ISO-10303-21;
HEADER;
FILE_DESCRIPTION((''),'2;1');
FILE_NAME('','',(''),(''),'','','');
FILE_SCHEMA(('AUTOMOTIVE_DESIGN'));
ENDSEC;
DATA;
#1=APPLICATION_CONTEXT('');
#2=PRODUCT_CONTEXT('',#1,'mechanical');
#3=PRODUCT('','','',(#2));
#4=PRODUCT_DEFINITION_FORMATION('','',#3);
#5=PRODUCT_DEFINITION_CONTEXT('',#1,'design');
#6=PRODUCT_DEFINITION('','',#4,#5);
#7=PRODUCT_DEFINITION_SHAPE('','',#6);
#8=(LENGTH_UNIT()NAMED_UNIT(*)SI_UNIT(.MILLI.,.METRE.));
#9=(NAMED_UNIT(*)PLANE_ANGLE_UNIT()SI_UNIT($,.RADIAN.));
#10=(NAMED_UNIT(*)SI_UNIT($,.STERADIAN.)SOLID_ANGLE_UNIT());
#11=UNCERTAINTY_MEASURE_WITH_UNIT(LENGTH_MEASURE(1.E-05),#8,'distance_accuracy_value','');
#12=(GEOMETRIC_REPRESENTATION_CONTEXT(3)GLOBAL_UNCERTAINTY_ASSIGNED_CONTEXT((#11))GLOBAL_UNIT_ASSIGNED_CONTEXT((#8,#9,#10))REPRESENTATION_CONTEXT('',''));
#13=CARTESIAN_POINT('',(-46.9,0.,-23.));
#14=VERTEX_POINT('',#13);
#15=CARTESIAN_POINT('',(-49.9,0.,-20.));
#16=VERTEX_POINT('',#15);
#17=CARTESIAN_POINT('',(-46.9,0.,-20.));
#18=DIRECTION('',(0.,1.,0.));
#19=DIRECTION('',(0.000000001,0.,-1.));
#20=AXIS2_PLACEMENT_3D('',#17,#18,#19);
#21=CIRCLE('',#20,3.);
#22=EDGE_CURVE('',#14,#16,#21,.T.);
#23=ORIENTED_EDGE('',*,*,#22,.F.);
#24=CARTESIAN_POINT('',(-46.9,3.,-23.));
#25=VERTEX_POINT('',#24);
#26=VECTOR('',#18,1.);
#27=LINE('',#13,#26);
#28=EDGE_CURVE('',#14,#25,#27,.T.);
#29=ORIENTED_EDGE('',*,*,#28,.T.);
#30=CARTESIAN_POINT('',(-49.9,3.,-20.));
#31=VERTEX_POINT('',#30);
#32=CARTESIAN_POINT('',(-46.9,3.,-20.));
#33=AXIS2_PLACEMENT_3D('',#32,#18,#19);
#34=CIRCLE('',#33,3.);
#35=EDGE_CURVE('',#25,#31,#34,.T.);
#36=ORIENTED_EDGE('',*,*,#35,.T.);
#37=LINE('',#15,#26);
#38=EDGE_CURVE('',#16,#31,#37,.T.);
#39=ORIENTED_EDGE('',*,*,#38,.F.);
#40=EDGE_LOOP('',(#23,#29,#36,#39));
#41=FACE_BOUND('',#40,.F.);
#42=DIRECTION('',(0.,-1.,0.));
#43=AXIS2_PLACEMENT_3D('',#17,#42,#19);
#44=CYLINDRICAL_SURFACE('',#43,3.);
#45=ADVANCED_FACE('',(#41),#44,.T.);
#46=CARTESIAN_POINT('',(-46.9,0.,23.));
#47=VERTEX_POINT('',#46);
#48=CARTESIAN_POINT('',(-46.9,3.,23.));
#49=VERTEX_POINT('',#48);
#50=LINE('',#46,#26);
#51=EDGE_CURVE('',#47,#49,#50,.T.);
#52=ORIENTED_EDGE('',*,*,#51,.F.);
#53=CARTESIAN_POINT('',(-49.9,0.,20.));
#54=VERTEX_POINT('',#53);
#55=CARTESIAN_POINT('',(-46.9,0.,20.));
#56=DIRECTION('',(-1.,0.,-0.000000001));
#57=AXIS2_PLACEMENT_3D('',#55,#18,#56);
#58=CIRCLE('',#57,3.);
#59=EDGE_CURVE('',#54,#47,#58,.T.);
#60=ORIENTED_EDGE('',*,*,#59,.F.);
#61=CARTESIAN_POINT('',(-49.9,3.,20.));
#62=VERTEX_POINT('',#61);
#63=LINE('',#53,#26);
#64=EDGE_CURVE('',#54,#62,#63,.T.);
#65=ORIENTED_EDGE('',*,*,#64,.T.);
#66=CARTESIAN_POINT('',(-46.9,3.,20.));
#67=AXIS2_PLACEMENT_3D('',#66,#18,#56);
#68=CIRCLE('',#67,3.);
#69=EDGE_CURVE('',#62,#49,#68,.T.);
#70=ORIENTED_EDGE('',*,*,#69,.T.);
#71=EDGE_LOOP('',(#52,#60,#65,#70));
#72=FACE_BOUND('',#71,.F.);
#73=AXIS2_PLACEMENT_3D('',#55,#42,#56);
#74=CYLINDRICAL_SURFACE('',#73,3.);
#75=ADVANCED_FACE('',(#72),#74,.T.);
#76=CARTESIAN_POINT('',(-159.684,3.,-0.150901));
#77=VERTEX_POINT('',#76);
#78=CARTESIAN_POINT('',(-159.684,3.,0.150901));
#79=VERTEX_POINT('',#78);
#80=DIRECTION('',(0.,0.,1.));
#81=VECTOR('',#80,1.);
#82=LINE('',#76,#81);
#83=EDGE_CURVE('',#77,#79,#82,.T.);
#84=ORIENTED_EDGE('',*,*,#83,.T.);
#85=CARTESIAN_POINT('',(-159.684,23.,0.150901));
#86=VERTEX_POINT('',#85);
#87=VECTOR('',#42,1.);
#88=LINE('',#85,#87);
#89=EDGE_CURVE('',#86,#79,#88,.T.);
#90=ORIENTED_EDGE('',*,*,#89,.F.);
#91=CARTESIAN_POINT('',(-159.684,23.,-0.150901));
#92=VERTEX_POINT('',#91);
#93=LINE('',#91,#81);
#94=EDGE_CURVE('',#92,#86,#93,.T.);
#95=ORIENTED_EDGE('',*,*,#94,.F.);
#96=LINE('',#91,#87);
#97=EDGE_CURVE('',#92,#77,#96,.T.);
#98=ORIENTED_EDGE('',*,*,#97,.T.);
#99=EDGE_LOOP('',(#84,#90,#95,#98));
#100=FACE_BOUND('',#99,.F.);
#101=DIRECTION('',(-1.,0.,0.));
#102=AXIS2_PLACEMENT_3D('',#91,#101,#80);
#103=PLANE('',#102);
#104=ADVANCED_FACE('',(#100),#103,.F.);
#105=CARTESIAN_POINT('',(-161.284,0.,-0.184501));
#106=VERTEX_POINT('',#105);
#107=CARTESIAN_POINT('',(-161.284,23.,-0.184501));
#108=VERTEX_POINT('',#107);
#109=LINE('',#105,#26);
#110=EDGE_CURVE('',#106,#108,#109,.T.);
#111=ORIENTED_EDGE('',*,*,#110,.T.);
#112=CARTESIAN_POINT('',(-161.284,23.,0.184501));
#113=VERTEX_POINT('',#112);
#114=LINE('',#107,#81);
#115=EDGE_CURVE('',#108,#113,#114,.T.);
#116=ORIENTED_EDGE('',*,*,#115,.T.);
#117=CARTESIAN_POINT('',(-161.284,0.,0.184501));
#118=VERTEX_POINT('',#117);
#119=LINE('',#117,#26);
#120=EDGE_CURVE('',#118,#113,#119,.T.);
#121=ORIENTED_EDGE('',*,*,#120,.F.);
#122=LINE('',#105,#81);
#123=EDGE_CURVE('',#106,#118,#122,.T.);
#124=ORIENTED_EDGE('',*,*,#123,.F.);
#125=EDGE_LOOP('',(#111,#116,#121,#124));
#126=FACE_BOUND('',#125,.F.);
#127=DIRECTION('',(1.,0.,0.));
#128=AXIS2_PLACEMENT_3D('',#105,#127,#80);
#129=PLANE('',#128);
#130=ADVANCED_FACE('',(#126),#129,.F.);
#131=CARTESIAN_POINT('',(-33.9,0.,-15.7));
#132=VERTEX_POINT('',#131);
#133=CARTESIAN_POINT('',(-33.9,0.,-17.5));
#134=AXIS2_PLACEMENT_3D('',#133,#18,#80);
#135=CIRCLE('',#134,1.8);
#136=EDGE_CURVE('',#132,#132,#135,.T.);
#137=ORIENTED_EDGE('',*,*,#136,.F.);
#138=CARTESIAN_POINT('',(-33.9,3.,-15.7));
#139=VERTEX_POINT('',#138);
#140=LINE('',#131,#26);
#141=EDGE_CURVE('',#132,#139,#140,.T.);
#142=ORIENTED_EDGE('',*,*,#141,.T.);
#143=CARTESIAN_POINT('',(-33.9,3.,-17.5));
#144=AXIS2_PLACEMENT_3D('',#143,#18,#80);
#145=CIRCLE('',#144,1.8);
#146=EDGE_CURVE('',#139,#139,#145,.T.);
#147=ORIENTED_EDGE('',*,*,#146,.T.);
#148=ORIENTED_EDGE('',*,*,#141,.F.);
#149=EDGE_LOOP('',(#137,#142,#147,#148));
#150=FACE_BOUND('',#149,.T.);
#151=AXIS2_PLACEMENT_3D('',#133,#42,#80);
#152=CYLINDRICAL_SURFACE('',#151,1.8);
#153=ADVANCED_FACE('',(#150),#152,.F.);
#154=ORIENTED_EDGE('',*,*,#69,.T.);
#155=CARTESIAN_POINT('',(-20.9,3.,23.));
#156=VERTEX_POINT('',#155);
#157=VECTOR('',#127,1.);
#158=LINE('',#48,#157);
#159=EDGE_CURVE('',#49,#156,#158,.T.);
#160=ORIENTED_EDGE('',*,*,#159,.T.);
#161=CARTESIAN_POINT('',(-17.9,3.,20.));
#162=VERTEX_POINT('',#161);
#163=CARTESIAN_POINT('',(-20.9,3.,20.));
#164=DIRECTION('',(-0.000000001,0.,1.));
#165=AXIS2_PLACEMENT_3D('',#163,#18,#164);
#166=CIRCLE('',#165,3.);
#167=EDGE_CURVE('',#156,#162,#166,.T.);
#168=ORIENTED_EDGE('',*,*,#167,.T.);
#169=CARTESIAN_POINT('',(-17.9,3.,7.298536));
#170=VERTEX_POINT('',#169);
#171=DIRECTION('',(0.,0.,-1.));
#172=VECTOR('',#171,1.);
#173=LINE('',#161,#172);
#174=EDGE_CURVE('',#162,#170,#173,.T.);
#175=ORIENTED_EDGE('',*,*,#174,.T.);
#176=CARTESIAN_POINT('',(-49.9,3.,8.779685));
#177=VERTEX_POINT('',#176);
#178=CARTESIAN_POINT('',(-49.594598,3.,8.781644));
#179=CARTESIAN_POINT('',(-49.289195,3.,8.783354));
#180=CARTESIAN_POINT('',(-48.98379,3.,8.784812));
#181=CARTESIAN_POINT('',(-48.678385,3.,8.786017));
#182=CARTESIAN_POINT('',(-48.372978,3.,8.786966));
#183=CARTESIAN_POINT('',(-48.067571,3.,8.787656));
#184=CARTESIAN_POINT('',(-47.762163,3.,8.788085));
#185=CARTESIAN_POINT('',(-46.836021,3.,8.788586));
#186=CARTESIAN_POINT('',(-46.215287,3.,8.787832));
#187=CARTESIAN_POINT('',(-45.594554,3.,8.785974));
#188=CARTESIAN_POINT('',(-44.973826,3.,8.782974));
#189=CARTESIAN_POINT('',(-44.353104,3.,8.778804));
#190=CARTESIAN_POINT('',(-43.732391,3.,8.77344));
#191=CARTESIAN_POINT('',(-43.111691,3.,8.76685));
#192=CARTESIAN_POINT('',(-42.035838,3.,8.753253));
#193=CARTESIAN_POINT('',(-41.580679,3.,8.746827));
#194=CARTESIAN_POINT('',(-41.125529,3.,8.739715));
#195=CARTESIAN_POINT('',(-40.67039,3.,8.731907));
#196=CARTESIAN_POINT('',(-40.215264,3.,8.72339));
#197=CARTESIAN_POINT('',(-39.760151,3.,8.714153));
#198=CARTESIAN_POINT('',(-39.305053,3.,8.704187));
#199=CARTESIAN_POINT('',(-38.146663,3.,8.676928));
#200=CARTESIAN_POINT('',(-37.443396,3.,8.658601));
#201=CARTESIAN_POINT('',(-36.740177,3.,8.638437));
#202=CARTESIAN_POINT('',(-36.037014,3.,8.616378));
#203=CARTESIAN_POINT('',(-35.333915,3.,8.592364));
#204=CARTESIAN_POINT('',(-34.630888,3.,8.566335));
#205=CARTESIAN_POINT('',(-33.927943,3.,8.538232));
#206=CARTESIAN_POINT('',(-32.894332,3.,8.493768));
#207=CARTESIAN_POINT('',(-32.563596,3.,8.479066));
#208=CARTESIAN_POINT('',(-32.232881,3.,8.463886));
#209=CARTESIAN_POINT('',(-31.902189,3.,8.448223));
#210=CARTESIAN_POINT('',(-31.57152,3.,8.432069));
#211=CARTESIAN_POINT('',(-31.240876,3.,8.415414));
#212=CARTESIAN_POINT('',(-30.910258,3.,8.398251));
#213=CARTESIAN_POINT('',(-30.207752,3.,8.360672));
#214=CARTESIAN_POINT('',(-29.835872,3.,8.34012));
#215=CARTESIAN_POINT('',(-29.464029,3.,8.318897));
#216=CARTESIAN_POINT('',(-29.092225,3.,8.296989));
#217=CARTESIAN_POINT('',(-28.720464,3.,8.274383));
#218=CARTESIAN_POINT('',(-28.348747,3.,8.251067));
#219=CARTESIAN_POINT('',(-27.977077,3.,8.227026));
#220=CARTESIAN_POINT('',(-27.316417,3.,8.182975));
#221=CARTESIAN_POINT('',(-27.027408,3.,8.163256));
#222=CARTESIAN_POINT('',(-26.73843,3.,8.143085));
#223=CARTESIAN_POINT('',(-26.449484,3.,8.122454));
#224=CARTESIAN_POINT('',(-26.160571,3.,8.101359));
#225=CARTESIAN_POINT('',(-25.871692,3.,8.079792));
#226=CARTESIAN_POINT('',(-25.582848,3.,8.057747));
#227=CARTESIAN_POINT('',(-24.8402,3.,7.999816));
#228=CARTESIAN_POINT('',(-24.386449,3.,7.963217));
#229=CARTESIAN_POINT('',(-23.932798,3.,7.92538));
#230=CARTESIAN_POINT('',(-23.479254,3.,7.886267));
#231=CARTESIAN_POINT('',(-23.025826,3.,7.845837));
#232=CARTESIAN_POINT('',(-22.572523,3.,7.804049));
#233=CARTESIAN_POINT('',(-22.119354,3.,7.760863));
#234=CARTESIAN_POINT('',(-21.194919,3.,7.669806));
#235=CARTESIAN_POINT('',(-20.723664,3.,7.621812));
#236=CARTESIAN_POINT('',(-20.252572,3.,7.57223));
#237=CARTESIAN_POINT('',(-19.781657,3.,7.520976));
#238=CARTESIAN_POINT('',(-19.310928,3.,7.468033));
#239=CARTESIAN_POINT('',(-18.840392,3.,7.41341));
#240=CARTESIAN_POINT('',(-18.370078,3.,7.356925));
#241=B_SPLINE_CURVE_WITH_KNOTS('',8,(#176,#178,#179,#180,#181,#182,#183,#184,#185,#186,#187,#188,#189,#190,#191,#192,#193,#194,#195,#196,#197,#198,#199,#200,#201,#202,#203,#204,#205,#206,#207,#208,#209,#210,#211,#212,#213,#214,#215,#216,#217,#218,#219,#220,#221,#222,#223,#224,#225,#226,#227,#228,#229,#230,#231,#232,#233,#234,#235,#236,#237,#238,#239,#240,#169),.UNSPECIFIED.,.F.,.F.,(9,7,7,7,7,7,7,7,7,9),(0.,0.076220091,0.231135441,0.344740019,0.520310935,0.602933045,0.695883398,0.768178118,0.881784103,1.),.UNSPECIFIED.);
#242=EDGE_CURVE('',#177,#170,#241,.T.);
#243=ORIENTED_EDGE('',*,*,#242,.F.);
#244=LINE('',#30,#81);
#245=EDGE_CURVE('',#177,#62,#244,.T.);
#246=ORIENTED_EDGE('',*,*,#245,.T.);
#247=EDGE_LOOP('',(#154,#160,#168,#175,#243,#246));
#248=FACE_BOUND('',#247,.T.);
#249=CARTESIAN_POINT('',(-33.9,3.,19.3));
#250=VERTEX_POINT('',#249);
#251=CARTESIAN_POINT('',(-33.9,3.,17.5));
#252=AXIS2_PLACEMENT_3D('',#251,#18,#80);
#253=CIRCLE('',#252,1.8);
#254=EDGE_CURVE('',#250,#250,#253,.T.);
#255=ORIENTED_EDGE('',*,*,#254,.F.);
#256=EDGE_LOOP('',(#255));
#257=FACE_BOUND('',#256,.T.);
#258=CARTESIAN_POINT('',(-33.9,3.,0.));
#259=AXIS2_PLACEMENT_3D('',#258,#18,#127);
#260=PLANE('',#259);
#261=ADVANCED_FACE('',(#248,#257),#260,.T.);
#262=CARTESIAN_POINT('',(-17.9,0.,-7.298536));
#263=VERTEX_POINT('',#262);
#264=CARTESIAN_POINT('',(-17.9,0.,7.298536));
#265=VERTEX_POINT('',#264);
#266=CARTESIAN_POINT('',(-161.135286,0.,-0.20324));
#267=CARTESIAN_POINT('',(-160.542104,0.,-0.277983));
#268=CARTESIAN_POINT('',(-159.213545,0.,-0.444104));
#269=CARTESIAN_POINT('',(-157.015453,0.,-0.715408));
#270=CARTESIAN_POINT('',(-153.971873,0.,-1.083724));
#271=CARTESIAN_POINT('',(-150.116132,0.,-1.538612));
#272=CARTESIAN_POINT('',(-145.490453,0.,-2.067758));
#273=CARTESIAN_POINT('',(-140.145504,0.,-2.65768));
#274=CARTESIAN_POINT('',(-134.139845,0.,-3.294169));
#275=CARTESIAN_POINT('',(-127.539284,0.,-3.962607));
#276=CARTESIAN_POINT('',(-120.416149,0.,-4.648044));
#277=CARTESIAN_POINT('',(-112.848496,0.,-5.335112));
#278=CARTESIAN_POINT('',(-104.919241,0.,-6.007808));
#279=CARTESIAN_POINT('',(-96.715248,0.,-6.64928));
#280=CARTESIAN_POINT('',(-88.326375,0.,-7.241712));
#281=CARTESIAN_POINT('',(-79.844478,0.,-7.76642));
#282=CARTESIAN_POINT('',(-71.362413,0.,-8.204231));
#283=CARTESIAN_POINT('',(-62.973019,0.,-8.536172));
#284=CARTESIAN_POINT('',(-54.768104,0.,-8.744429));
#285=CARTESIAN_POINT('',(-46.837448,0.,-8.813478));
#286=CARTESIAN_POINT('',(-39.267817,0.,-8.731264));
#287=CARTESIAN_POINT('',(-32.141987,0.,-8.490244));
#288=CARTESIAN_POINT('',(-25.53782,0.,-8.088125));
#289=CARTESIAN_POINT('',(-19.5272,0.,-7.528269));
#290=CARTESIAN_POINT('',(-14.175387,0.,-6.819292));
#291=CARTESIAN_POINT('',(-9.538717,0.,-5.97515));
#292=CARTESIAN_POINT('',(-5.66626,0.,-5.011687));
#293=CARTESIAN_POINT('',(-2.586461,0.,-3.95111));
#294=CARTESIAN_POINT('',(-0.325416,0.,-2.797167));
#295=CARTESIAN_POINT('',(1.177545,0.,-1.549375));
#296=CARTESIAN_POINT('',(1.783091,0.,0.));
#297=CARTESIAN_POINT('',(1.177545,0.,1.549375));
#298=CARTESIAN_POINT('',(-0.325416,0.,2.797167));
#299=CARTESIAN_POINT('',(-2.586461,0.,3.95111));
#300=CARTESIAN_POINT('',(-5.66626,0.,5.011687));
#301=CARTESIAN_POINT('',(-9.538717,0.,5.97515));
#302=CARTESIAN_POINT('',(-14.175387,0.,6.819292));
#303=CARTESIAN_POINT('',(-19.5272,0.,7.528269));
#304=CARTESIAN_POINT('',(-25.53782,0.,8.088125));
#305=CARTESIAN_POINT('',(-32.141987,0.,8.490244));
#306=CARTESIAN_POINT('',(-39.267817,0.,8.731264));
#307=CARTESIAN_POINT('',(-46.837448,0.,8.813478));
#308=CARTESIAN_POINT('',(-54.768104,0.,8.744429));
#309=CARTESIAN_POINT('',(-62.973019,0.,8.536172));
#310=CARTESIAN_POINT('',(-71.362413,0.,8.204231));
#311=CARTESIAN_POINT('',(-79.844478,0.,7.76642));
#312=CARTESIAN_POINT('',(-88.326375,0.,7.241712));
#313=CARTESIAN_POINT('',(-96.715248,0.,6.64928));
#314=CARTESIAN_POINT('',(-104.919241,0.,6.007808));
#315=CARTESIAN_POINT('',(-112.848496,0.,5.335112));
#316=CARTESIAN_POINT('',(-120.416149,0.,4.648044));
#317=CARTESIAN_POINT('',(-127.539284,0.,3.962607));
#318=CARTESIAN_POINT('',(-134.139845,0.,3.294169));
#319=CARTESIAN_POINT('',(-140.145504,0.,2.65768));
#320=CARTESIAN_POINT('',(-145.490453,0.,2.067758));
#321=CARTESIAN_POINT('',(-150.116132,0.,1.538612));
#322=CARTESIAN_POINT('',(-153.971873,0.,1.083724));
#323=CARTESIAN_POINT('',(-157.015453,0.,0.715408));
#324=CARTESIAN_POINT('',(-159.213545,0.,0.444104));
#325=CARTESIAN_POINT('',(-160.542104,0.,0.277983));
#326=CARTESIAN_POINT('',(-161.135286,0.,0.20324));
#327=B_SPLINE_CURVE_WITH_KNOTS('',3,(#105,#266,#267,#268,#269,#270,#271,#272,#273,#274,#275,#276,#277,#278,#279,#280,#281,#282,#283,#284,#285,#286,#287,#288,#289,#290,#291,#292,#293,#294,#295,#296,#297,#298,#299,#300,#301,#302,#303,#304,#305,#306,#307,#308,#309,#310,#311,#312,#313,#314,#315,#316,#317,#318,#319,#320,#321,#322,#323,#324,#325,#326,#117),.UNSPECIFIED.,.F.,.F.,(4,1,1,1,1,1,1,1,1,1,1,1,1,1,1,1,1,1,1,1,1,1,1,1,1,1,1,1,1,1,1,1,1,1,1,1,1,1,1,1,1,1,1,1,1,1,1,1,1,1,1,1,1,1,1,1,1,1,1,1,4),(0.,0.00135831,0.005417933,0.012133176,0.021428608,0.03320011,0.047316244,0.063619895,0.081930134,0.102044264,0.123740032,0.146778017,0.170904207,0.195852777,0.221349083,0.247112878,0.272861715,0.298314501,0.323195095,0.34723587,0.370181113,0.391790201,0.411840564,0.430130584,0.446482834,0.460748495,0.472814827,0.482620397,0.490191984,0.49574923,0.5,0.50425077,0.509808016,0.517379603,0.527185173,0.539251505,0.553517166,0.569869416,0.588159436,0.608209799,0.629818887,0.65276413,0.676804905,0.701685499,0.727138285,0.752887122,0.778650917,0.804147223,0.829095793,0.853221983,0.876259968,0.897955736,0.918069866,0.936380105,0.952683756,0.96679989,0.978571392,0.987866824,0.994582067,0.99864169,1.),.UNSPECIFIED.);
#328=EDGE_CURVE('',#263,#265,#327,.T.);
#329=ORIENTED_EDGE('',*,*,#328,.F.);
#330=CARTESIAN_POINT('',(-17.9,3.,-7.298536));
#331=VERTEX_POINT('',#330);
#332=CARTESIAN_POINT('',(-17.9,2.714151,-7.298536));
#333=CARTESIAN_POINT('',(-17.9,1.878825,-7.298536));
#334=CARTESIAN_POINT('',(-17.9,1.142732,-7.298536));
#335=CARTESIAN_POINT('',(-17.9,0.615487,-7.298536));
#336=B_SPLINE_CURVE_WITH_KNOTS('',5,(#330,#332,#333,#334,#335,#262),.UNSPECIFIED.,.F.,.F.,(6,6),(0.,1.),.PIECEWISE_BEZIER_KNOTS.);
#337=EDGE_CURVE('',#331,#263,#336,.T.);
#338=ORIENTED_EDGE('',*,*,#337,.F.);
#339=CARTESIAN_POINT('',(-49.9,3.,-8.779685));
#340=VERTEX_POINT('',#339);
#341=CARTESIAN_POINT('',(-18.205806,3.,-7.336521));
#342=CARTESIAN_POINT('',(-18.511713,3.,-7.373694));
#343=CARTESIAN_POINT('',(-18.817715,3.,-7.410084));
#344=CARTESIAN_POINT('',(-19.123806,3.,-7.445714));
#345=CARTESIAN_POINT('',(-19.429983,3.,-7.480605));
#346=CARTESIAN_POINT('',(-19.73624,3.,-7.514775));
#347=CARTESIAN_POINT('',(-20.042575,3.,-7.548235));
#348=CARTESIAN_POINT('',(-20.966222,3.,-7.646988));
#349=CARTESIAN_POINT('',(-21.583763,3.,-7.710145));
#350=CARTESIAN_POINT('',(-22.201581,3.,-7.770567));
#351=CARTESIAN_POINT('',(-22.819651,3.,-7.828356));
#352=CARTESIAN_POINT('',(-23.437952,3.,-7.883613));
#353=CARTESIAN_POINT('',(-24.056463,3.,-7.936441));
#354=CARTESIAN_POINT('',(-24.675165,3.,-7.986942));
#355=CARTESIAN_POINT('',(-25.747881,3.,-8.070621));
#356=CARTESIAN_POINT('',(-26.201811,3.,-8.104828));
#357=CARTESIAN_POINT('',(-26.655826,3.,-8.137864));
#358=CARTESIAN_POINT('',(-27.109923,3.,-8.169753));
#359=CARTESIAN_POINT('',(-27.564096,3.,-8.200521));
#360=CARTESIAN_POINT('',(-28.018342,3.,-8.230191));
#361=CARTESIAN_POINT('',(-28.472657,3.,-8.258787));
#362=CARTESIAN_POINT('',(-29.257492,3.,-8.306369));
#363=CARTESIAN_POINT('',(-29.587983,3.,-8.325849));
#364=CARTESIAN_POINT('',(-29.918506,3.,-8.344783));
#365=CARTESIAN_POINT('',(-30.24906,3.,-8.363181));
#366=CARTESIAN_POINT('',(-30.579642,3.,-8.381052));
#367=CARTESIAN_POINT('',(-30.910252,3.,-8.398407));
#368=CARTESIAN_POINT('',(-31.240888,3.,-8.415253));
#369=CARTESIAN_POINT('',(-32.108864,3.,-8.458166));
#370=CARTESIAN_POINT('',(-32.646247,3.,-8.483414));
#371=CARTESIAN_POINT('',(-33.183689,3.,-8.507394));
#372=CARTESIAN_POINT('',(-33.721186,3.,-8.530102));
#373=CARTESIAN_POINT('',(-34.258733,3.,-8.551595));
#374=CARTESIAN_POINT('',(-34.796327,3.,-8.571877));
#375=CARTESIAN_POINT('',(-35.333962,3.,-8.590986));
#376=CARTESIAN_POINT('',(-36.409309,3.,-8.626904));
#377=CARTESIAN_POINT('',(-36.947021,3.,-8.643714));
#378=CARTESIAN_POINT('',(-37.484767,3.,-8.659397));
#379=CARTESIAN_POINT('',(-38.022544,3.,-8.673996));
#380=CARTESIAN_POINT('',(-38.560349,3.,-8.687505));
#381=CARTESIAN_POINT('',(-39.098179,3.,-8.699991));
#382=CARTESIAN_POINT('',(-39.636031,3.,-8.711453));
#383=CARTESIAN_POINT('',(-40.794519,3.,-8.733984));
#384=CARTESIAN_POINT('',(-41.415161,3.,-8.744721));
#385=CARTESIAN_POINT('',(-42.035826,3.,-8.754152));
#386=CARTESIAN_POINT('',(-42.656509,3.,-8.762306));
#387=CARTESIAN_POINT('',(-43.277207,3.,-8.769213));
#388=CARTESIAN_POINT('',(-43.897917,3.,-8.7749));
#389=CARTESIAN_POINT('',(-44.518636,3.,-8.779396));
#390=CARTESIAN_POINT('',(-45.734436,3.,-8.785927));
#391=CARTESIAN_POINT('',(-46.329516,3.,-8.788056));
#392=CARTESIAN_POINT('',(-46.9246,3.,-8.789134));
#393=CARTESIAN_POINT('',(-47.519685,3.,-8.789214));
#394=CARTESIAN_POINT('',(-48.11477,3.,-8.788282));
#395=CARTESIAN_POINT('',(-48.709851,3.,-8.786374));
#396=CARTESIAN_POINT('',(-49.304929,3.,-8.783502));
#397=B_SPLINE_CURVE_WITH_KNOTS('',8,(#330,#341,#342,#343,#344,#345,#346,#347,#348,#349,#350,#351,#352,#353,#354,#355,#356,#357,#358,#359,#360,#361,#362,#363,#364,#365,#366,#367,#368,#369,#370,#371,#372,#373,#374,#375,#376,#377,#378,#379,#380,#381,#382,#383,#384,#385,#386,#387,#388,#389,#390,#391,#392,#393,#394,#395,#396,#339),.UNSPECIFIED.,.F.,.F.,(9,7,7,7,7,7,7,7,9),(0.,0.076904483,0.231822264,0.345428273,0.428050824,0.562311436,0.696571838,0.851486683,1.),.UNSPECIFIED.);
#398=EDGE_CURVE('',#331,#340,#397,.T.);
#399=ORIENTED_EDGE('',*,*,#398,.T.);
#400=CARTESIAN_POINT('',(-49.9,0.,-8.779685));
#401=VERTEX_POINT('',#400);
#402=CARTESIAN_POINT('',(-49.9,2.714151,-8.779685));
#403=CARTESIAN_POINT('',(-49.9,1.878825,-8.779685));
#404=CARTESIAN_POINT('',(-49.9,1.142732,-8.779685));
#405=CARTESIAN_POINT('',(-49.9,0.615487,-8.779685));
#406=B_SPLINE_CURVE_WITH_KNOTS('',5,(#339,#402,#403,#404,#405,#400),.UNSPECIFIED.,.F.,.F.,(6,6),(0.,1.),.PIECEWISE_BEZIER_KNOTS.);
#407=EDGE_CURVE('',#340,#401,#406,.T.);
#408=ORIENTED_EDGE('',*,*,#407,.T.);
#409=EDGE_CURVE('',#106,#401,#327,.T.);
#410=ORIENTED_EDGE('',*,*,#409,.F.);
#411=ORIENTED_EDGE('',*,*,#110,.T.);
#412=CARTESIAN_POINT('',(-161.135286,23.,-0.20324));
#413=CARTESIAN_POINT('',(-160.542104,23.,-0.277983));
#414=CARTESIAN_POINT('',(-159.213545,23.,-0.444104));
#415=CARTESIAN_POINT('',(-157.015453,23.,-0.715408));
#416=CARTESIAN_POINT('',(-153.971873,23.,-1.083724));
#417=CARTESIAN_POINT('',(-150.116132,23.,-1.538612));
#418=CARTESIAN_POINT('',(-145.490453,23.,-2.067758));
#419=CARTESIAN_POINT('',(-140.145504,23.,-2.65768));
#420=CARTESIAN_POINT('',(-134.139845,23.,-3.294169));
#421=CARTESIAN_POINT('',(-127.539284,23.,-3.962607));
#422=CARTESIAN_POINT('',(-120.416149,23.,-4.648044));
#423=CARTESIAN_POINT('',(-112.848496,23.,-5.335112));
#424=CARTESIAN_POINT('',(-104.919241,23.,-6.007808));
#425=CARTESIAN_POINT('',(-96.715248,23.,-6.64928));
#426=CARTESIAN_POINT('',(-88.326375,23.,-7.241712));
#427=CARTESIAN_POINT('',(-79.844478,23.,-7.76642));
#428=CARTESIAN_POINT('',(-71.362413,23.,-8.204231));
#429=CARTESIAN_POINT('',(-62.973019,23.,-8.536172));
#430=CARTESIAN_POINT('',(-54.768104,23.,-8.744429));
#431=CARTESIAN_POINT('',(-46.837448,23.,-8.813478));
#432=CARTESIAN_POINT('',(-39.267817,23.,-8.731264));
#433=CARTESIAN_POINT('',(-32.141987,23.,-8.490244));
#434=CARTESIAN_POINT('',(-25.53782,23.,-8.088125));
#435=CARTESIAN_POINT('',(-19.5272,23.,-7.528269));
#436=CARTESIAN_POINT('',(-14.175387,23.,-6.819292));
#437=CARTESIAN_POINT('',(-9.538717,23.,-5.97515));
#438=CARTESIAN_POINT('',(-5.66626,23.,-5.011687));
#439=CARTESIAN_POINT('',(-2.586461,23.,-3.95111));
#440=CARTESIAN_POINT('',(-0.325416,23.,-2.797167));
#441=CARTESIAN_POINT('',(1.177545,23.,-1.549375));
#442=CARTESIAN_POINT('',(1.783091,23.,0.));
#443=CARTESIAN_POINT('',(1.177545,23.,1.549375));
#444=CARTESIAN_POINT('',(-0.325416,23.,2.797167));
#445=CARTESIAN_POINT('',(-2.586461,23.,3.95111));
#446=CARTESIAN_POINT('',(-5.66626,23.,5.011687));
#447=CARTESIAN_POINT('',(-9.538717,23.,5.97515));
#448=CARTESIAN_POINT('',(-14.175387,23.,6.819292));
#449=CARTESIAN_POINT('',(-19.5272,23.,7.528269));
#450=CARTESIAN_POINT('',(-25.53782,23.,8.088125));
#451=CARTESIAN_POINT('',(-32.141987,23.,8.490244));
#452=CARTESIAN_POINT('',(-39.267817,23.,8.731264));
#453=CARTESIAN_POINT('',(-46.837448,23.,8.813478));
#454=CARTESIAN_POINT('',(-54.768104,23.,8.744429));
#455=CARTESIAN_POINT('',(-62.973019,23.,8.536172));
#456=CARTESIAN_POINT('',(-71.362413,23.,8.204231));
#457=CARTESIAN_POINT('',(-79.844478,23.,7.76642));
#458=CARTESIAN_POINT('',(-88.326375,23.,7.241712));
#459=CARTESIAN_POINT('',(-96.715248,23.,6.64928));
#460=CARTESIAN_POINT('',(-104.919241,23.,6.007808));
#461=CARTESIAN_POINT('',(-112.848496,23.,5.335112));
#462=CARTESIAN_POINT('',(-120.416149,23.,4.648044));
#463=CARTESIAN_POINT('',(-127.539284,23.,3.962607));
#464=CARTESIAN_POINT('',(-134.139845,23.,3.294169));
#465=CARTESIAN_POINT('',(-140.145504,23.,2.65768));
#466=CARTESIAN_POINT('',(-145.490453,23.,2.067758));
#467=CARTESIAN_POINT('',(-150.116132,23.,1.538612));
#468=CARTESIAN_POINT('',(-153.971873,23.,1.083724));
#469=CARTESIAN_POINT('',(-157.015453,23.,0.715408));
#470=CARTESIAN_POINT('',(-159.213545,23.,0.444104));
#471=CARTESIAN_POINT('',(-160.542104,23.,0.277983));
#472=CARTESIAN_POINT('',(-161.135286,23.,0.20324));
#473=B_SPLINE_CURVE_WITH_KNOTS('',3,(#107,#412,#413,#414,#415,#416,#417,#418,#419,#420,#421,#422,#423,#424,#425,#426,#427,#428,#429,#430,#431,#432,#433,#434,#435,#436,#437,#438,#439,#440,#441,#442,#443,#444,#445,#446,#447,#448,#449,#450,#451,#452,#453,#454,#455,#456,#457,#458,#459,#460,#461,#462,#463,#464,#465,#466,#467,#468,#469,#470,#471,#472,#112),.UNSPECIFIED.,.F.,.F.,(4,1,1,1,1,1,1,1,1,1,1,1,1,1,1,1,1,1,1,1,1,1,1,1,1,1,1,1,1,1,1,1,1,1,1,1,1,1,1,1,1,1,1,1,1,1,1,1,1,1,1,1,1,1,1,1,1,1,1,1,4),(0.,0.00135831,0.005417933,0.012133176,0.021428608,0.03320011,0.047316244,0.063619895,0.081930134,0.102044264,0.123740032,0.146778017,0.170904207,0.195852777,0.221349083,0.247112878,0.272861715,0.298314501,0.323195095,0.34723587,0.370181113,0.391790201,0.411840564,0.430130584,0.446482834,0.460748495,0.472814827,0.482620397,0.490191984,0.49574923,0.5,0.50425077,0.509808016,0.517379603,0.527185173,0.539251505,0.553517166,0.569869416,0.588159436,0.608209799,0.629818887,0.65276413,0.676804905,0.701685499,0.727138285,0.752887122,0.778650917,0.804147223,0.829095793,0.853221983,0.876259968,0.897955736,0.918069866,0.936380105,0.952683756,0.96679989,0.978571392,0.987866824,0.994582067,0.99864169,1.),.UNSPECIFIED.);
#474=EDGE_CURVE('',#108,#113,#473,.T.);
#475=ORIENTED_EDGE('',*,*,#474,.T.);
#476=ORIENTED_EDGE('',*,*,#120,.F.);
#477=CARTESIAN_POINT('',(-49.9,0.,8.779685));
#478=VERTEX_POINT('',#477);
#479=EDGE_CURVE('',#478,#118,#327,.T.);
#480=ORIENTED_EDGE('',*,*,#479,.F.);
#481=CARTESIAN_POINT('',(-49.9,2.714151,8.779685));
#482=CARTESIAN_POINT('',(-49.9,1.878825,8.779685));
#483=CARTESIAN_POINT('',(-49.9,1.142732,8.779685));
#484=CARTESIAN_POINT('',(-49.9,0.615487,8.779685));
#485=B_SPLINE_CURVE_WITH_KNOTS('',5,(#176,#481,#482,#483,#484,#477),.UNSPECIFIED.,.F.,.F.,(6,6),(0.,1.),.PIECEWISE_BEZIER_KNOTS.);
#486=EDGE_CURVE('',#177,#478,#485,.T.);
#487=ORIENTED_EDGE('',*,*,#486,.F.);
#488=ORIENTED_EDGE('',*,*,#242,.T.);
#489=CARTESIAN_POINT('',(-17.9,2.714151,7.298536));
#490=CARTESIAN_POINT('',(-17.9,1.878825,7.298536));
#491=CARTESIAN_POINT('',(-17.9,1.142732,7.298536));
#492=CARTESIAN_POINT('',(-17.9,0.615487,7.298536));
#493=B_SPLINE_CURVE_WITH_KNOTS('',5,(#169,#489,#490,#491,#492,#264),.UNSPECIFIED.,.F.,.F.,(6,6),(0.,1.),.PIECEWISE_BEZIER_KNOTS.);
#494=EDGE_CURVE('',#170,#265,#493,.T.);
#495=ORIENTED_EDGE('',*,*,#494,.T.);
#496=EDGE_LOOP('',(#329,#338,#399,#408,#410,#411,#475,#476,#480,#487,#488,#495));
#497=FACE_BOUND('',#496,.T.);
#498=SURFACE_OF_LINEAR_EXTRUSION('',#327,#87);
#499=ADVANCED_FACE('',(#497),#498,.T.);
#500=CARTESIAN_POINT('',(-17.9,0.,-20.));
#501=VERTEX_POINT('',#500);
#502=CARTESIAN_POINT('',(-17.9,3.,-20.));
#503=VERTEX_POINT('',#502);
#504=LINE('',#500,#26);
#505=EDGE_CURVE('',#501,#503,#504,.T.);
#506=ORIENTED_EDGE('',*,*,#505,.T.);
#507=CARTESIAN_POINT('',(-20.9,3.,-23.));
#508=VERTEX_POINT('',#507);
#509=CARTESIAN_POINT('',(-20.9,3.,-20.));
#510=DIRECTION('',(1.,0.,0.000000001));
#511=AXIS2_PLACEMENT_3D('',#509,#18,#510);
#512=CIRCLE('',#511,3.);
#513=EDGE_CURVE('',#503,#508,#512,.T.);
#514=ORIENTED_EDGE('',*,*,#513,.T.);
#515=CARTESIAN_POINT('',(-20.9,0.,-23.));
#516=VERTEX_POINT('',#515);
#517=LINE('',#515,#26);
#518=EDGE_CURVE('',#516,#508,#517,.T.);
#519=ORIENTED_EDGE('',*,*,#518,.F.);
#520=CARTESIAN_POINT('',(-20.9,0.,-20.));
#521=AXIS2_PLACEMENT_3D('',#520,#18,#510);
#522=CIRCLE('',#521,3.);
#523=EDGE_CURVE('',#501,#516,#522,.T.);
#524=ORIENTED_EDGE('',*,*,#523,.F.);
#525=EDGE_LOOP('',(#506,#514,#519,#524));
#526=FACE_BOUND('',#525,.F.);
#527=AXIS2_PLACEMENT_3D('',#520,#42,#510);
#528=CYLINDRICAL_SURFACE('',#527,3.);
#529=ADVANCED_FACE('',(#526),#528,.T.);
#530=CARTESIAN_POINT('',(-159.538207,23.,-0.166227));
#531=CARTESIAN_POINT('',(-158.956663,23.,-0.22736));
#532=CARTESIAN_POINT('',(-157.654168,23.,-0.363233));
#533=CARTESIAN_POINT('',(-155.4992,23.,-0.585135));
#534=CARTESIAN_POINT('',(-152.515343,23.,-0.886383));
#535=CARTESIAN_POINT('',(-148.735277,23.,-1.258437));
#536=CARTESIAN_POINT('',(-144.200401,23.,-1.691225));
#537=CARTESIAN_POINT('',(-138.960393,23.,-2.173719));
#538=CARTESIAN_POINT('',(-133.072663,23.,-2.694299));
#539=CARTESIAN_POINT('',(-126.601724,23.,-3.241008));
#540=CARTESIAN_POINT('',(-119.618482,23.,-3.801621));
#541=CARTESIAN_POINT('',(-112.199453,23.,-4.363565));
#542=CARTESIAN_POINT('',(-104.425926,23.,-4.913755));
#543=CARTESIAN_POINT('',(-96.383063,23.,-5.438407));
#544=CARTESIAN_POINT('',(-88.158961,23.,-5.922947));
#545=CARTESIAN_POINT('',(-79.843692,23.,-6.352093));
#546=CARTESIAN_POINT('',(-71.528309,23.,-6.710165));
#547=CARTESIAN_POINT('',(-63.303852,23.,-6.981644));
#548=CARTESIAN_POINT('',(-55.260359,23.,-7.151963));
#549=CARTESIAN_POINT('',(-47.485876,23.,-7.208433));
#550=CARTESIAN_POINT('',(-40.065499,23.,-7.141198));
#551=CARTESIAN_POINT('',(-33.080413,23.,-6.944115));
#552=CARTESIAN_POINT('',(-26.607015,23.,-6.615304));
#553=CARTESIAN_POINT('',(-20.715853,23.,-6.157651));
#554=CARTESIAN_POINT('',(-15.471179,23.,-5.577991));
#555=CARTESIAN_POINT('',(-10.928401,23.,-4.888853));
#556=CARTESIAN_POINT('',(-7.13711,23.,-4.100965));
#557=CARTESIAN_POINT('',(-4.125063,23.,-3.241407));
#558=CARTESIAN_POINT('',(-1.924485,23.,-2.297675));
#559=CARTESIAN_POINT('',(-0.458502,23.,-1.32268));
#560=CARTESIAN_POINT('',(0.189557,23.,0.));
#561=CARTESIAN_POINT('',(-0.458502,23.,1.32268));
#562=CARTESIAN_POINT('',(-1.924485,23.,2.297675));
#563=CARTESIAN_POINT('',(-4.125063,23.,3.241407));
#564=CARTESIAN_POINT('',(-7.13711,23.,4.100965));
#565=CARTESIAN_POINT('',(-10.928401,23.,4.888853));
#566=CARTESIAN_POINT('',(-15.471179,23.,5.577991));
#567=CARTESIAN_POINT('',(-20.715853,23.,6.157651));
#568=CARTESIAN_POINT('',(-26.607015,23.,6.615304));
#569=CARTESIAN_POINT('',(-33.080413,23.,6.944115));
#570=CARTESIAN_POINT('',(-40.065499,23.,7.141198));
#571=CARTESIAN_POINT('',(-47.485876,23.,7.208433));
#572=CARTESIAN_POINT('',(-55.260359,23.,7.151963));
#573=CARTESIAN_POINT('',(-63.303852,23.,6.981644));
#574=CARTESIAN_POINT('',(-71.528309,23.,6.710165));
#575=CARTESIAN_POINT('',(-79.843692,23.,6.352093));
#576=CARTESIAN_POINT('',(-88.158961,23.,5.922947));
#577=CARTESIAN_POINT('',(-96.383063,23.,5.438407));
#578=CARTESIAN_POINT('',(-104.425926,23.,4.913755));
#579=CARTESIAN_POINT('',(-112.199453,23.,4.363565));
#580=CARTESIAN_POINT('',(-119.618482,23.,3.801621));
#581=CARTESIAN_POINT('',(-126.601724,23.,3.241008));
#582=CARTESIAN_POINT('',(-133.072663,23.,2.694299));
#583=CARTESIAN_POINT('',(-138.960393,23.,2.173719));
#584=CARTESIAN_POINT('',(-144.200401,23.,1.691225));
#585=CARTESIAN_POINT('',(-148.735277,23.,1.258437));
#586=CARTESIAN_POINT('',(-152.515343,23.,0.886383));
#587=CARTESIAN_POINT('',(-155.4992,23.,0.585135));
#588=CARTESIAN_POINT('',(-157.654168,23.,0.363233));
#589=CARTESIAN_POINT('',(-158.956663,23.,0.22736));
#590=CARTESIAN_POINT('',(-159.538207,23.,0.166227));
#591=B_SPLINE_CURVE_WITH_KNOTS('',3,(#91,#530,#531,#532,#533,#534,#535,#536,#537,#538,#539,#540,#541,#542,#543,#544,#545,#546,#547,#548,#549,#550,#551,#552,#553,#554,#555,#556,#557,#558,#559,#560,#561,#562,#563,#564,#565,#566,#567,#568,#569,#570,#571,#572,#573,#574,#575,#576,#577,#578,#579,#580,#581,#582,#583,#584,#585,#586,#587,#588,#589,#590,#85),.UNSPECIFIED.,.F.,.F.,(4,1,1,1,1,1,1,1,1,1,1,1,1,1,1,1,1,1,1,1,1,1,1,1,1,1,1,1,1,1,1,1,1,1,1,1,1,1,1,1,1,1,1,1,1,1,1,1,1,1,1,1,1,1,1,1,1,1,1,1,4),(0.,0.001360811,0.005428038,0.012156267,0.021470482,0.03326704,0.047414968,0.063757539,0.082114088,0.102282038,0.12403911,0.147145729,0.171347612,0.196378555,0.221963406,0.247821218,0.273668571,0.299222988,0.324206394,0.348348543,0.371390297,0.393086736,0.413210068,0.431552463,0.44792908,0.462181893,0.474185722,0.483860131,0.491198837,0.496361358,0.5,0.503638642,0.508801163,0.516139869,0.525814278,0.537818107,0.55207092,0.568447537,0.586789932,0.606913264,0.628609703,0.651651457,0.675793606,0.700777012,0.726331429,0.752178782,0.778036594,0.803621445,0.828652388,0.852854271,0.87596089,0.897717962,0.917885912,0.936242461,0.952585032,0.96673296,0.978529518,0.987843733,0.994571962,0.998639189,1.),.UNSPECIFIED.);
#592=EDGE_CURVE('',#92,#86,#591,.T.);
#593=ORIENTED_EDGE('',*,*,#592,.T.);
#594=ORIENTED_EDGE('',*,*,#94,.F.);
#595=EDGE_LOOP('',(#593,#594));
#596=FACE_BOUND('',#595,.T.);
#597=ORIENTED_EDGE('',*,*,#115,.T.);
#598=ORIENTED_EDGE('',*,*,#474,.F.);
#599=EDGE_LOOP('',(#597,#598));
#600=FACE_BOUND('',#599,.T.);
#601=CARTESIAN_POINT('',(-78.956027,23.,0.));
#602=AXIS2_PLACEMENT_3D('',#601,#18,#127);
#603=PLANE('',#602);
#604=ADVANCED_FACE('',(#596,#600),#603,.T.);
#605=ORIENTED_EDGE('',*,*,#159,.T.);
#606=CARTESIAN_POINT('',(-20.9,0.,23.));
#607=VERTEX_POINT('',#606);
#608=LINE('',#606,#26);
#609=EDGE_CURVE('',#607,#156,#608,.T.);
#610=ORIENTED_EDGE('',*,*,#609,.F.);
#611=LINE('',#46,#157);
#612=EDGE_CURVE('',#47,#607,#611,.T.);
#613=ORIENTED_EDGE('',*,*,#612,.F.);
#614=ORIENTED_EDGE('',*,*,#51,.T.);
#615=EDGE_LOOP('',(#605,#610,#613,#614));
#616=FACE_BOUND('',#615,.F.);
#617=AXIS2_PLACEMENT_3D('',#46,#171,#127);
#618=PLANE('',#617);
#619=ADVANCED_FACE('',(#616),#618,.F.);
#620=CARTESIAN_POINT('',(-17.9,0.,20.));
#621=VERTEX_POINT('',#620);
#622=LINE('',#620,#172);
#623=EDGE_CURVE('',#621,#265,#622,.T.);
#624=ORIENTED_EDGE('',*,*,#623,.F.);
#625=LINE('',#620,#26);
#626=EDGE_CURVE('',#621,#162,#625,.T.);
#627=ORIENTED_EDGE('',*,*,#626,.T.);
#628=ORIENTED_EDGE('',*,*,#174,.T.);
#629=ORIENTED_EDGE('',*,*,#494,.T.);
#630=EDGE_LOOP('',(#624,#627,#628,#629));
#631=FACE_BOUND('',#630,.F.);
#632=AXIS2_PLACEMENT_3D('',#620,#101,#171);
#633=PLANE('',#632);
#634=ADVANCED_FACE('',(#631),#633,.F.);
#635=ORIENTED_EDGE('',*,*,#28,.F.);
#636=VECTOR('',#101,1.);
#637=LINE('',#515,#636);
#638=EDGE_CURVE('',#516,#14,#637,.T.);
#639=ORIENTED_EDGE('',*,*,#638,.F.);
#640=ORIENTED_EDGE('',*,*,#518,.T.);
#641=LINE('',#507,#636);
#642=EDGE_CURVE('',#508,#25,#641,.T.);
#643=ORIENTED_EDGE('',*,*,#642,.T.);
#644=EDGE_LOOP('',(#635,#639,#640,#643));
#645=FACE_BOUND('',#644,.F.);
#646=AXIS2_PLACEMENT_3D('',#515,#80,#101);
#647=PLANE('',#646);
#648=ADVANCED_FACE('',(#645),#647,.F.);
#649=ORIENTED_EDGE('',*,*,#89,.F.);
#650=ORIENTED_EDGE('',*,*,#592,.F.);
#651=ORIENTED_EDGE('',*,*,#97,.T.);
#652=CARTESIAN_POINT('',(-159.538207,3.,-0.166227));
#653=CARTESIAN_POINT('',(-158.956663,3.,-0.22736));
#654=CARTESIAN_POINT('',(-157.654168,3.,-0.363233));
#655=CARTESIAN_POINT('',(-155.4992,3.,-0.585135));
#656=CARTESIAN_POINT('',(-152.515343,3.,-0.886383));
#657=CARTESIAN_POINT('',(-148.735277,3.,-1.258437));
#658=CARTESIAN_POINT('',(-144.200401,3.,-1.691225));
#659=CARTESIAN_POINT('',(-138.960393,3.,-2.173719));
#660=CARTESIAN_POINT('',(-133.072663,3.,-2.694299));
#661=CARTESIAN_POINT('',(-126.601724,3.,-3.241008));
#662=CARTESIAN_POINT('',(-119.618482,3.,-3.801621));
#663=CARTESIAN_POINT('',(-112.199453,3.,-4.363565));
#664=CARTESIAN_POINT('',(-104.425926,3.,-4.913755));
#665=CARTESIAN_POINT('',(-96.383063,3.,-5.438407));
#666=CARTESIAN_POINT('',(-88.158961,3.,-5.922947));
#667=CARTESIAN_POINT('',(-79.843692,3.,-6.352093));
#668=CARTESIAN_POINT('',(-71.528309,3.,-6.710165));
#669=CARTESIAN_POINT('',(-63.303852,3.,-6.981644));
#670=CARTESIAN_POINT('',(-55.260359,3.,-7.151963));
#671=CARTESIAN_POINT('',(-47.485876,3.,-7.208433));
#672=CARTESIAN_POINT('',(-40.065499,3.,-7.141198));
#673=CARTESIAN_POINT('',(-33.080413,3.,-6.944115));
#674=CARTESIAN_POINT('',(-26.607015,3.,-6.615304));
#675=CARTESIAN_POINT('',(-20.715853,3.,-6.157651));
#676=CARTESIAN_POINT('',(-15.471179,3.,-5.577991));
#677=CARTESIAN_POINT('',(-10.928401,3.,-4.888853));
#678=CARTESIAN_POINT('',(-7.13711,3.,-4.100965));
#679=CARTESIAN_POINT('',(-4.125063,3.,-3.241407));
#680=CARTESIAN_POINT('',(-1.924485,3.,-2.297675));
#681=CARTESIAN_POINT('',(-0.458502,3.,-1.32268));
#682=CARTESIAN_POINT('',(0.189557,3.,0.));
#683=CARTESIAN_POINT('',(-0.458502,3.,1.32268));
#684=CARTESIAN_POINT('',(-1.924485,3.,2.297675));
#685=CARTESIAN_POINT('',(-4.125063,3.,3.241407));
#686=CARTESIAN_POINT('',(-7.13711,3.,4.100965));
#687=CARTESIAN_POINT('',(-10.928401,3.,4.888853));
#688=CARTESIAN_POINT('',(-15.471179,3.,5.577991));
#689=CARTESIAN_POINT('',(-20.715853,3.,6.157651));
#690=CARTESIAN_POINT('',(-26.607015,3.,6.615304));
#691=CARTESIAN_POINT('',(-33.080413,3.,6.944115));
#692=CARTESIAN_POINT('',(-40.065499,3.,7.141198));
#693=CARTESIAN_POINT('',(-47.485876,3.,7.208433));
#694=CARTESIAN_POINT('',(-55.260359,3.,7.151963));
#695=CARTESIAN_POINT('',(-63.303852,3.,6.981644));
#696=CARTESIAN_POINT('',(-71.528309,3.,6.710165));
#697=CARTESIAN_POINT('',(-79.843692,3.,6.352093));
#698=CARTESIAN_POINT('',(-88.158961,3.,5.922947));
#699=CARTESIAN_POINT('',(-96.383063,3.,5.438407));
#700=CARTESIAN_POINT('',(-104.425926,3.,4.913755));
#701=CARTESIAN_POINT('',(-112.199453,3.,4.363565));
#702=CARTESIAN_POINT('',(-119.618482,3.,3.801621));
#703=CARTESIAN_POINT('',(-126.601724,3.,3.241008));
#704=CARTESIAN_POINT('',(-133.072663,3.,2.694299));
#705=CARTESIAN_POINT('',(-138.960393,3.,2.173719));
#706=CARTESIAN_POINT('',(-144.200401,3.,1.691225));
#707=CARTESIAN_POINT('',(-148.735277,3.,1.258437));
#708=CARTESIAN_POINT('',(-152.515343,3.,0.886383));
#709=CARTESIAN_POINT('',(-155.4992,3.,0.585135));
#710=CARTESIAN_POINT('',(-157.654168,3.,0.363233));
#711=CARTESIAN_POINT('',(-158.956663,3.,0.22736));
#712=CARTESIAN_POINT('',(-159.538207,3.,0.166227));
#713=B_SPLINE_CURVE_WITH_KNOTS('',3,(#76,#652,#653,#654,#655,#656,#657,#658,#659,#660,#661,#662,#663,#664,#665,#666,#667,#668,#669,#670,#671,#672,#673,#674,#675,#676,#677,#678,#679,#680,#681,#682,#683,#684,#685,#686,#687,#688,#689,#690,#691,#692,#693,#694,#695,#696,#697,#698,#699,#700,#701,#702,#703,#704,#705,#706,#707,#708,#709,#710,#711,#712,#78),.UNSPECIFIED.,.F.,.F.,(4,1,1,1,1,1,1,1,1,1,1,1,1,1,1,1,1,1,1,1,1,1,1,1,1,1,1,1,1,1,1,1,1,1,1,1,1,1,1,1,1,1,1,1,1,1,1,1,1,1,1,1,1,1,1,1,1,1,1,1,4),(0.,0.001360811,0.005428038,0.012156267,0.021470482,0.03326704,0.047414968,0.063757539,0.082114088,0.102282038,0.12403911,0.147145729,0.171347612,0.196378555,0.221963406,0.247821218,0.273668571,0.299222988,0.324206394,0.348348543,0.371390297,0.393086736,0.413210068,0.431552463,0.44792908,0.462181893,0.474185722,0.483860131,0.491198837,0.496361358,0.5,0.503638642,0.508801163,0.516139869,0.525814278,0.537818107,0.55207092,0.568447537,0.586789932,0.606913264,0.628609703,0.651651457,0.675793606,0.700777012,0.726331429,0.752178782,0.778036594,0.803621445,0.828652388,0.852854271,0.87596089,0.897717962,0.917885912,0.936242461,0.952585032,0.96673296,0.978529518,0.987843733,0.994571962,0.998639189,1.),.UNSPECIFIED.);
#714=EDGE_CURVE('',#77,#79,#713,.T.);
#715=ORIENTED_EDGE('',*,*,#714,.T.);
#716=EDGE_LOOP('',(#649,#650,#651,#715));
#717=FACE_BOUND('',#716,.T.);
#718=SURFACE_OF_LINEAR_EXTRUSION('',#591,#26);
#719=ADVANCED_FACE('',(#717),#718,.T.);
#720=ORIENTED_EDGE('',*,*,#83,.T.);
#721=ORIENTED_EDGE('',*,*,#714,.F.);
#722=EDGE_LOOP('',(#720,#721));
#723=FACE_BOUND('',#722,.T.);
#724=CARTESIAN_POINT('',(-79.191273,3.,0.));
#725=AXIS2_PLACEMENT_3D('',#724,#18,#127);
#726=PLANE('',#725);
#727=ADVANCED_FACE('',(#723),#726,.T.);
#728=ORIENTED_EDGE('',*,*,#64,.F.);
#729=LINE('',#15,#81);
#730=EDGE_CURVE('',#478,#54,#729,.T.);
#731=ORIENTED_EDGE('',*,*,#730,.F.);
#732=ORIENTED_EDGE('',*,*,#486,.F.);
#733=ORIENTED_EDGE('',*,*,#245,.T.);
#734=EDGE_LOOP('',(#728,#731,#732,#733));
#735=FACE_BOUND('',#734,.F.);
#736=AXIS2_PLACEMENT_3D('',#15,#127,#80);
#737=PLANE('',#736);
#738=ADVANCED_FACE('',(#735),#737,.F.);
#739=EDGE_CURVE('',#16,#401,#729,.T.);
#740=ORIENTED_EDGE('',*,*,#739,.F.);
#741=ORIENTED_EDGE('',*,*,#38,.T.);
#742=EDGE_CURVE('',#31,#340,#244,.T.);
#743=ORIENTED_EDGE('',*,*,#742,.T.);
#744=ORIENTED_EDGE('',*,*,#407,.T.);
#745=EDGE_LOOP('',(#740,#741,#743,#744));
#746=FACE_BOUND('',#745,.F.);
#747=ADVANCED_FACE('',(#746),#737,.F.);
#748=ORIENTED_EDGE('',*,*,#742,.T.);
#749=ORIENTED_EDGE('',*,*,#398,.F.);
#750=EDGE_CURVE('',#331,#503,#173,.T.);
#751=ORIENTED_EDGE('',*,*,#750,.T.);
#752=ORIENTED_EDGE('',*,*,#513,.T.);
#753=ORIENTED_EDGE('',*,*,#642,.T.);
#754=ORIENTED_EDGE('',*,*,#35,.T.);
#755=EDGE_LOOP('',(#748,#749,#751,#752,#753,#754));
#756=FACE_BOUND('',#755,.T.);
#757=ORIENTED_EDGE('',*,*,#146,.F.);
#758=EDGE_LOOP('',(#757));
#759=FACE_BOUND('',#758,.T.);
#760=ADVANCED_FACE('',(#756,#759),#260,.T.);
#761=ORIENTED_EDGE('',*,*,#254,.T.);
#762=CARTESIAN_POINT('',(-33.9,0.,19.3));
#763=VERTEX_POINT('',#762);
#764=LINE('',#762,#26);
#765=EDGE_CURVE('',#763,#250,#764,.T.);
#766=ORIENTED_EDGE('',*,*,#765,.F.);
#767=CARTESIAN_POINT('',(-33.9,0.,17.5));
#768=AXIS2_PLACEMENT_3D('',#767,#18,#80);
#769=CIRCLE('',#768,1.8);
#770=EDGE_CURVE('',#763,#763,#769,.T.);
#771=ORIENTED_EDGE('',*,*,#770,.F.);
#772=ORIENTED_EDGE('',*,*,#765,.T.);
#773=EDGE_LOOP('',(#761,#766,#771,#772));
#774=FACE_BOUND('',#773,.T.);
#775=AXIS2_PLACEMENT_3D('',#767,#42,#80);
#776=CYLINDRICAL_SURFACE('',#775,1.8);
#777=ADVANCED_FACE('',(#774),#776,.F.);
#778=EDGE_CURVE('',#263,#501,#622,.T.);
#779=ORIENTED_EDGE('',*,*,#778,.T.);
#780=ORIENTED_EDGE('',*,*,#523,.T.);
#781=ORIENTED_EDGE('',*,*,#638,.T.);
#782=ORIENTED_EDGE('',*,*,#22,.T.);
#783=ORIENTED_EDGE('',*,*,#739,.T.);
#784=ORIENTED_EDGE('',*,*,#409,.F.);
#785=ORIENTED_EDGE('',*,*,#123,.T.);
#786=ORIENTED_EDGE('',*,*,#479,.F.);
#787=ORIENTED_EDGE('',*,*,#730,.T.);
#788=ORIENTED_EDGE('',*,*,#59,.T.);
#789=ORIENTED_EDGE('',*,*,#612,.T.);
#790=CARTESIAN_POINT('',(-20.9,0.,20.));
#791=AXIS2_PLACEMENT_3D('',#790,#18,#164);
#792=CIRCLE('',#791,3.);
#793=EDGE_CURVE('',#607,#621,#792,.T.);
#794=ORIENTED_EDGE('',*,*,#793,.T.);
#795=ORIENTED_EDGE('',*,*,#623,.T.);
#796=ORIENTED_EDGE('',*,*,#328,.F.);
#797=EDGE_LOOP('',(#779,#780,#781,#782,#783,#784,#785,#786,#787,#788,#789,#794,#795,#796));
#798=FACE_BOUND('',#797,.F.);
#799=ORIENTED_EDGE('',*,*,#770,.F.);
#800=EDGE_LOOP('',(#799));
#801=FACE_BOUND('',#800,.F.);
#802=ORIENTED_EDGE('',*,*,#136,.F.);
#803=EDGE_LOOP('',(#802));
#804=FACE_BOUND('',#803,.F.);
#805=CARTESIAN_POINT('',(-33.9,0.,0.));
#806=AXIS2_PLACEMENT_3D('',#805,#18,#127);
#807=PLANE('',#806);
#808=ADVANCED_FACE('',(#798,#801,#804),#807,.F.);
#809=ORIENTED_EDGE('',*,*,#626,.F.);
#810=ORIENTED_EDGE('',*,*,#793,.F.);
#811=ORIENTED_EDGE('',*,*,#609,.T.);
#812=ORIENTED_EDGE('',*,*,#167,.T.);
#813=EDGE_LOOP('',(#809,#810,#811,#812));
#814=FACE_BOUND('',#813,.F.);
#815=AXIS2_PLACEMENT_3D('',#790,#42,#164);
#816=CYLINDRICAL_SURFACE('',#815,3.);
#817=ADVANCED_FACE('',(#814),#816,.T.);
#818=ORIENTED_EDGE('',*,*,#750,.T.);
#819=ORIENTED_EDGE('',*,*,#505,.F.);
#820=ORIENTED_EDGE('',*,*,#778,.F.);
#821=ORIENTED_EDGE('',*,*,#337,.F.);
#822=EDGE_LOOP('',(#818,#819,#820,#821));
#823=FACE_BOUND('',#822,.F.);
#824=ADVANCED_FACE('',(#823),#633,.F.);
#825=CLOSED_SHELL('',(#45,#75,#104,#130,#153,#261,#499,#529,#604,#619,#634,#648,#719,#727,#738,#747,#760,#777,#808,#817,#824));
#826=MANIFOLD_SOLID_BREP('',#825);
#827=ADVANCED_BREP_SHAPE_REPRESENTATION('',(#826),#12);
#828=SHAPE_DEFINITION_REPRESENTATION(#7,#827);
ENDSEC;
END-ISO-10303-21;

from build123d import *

# Parameters (mm, degrees)
BOSS_EXTRUDE1_DEPTH = 23
BOSS_EXTRUDE2_DEPTH = 3
CUT_EXTRUDE1_DEPTH  = 20
SKETCH4_R           = 1.8
CUT_EXTRUDE2_DEPTH  = 3


with BuildPart() as part:
    # Sketch1 → Boss-Extrude1 (new body)
    with BuildSketch(Plane(origin=(0, 0, 0), x_dir=(1, 0, 0), z_dir=(0, 1, 0))):
        with BuildLine():
            Line((-161.284, 0.18450138), (-161.284, -0.18450138))
            add(Edge.make_bspline(
                [(-161.284, 0.18450138), (-161.135285552, 0.203239863), (-160.542103526, 0.277982643), (-159.213544996, 0.444104262), (-157.015453139, 0.715408296), (-153.971872979, 1.083724041), (-150.116132303, 1.538612136), (-145.490452745, 2.067758404), (-140.145504077, 2.657679862), (-134.139845429, 3.29416917), (-127.53928397, 3.962606617), (-120.416149384, 4.648044144), (-112.848495933, 5.3351116), (-104.919240653, 6.007807533), (-96.715248395, 6.649280014), (-88.326374672, 7.241712468), (-79.84447799, 7.766420282), (-71.362413467, 8.204231159), (-62.97301895, 8.536172364), (-54.768103928, 8.744428726), (-46.837447754, 8.813478491), (-39.267816891, 8.731264117), (-32.14198666, 8.490243969), (-25.537819723, 8.088124773), (-19.527199646, 7.528268837), (-14.175386999, 6.819291704), (-9.538717204, 5.975150055), (-5.666260379, 5.01168712), (-2.58646106, 3.951109869), (-0.325415931, 2.797166623), (1.177544817, 1.549374974), (1.783091046, 0), (1.177544817, -1.549374974), (-0.325415931, -2.797166623), (-2.58646106, -3.951109869), (-5.666260379, -5.01168712), (-9.538717204, -5.975150055), (-14.175386999, -6.819291704), (-19.527199646, -7.528268837), (-25.537819723, -8.088124773), (-32.14198666, -8.490243969), (-39.267816891, -8.731264117), (-46.837447754, -8.813478491), (-54.768103928, -8.744428726), (-62.97301895, -8.536172364), (-71.362413467, -8.204231159), (-79.84447799, -7.766420282), (-88.326374672, -7.241712468), (-96.715248395, -6.649280014), (-104.919240653, -6.007807533), (-112.848495933, -5.3351116), (-120.416149384, -4.648044144), (-127.53928397, -3.962606617), (-134.139845429, -3.29416917), (-140.145504077, -2.657679862), (-145.490452745, -2.067758404), (-150.116132303, -1.538612136), (-153.971872979, -1.083724041), (-157.015453139, -0.715408296), (-159.213544996, -0.444104262), (-160.542103526, -0.277982643), (-161.135285552, -0.203239863), (-161.284, -0.18450138)],
                knots=[0, 0, 0, 0, 0.00135831, 0.005417933, 0.012133176, 0.021428608, 0.03320011, 0.047316244, 0.063619895, 0.081930134, 0.102044264, 0.123740032, 0.146778017, 0.170904207, 0.195852777, 0.221349083, 0.247112878, 0.272861715, 0.298314501, 0.323195095, 0.34723587, 0.370181113, 0.391790201, 0.411840564, 0.430130584, 0.446482834, 0.460748495, 0.472814827, 0.482620397, 0.490191984, 0.49574923, 0.5, 0.50425077, 0.509808016, 0.517379603, 0.527185173, 0.539251505, 0.553517166, 0.569869416, 0.588159436, 0.608209799, 0.629818887, 0.65276413, 0.676804905, 0.701685499, 0.727138285, 0.752887122, 0.778650917, 0.804147223, 0.829095793, 0.853221983, 0.876259968, 0.897955736, 0.918069866, 0.936380105, 0.952683756, 0.96679989, 0.978571392, 0.987866824, 0.994582067, 0.99864169, 1, 1, 1, 1], degree=3))
        make_face()
    extrude(amount=BOSS_EXTRUDE1_DEPTH)

    # Sketch2 → Boss-Extrude2 (add)
    with BuildSketch(Plane(origin=(0, 0, 0), x_dir=(1, 0, 0), z_dir=(0, 1, 0))):
        with BuildLine():
            Line((-46.9, -23), (-20.9, -23))
            ThreePointArc((-20.9, -23), (-18.778679656, -22.121320344), (-17.9, -20))
            Line((-17.9, -20), (-17.9, 20))
            ThreePointArc((-17.9, 20), (-18.778679656, 22.121320344), (-20.9, 23))
            Line((-20.9, 23), (-46.9, 23))
            ThreePointArc((-46.9, 23), (-49.021320344, 22.121320344), (-49.9, 20))
            Line((-49.9, 20), (-49.9, -20))
            ThreePointArc((-49.9, -20), (-49.021320344, -22.121320344), (-46.9, -23))
        make_face()
    extrude(amount=BOSS_EXTRUDE2_DEPTH)

    # Sketch3 → Cut-Extrude1 (cut)
    with BuildSketch(Plane(origin=(0, 23, 0), x_dir=(1, 0, 0), z_dir=(0, 1, 0))):
        with BuildLine():
            Line((-159.684, 0.15090138), (-159.684, -0.15090138))
            add(Edge.make_bspline(
                [(-159.684, 0.15090138), (-159.538206741, 0.166227398), (-158.956662871, 0.227360207), (-157.654167736, 0.363232866), (-155.499199594, 0.585135074), (-152.515342829, 0.886382703), (-148.735276621, 1.258436775), (-144.200400621, 1.691224844), (-138.960392936, 2.173718981), (-133.072663344, 2.694299117), (-126.601724472, 3.241008162), (-119.618481877, 3.801620551), (-112.199453433, 4.363565395), (-104.425926457, 4.913755218), (-96.383062672, 5.438406618), (-88.158961465, 5.922946918), (-79.843692488, 6.352093411), (-71.52830892, 6.710164856), (-63.303852195, 6.981644343), (-55.260358793, 7.151963366), (-47.485875905, 7.208432976), (-40.065498905, 7.14119841), (-33.080413103, 6.944115154), (-26.607014754, 6.615303653), (-20.715852923, 6.157651069), (-15.471178936, 5.577990947), (-10.928400576, 4.888852637), (-7.137110149, 4.100965219), (-4.125063263, 3.241407304), (-1.924485135, 2.297674875), (-0.458501505, 1.322679617), (0.189557065, 0), (-0.458501505, -1.322679617), (-1.924485135, -2.297674875), (-4.125063263, -3.241407304), (-7.137110149, -4.100965219), (-10.928400576, -4.888852637), (-15.471178936, -5.577990947), (-20.715852923, -6.157651069), (-26.607014754, -6.615303653), (-33.080413103, -6.944115154), (-40.065498905, -7.14119841), (-47.485875905, -7.208432976), (-55.260358793, -7.151963366), (-63.303852195, -6.981644343), (-71.52830892, -6.710164856), (-79.843692488, -6.352093411), (-88.158961465, -5.922946918), (-96.383062672, -5.438406618), (-104.425926457, -4.913755218), (-112.199453433, -4.363565395), (-119.618481877, -3.801620551), (-126.601724472, -3.241008162), (-133.072663344, -2.694299117), (-138.960392936, -2.173718981), (-144.200400621, -1.691224844), (-148.735276621, -1.258436775), (-152.515342829, -0.886382703), (-155.499199594, -0.585135074), (-157.654167736, -0.363232866), (-158.956662871, -0.227360207), (-159.538206741, -0.166227398), (-159.684, -0.15090138)],
                knots=[0, 0, 0, 0, 0.001360811, 0.005428038, 0.012156267, 0.021470482, 0.03326704, 0.047414968, 0.063757539, 0.082114088, 0.102282038, 0.12403911, 0.147145729, 0.171347612, 0.196378555, 0.221963406, 0.247821218, 0.273668571, 0.299222988, 0.324206394, 0.348348543, 0.371390297, 0.393086736, 0.413210068, 0.431552463, 0.44792908, 0.462181893, 0.474185722, 0.483860131, 0.491198837, 0.496361358, 0.5, 0.503638642, 0.508801163, 0.516139869, 0.525814278, 0.537818107, 0.55207092, 0.568447537, 0.586789932, 0.606913264, 0.628609703, 0.651651457, 0.675793606, 0.700777012, 0.726331429, 0.752178782, 0.778036594, 0.803621445, 0.828652388, 0.852854271, 0.87596089, 0.897717962, 0.917885912, 0.936242461, 0.952585032, 0.96673296, 0.978529518, 0.987843733, 0.994571962, 0.998639189, 1, 1, 1, 1], degree=3))
        make_face()
    extrude(amount=-CUT_EXTRUDE1_DEPTH, mode=Mode.SUBTRACT)

    # Sketch4 → Cut-Extrude2 (cut)
    with BuildSketch(Plane(origin=(0, 0, 0), x_dir=(1, 0, 0), z_dir=(0, 1, 0))):
        with Locations(Location((-33.9, -17.5, 0), (0, 0, 270))):
            Circle(SKETCH4_R)
        with Locations(Location((-33.9, 17.5, 0), (0, 0, 270))):
            Circle(SKETCH4_R)
    extrude(amount=CUT_EXTRUDE2_DEPTH, mode=Mode.SUBTRACT)


solid = part.part
